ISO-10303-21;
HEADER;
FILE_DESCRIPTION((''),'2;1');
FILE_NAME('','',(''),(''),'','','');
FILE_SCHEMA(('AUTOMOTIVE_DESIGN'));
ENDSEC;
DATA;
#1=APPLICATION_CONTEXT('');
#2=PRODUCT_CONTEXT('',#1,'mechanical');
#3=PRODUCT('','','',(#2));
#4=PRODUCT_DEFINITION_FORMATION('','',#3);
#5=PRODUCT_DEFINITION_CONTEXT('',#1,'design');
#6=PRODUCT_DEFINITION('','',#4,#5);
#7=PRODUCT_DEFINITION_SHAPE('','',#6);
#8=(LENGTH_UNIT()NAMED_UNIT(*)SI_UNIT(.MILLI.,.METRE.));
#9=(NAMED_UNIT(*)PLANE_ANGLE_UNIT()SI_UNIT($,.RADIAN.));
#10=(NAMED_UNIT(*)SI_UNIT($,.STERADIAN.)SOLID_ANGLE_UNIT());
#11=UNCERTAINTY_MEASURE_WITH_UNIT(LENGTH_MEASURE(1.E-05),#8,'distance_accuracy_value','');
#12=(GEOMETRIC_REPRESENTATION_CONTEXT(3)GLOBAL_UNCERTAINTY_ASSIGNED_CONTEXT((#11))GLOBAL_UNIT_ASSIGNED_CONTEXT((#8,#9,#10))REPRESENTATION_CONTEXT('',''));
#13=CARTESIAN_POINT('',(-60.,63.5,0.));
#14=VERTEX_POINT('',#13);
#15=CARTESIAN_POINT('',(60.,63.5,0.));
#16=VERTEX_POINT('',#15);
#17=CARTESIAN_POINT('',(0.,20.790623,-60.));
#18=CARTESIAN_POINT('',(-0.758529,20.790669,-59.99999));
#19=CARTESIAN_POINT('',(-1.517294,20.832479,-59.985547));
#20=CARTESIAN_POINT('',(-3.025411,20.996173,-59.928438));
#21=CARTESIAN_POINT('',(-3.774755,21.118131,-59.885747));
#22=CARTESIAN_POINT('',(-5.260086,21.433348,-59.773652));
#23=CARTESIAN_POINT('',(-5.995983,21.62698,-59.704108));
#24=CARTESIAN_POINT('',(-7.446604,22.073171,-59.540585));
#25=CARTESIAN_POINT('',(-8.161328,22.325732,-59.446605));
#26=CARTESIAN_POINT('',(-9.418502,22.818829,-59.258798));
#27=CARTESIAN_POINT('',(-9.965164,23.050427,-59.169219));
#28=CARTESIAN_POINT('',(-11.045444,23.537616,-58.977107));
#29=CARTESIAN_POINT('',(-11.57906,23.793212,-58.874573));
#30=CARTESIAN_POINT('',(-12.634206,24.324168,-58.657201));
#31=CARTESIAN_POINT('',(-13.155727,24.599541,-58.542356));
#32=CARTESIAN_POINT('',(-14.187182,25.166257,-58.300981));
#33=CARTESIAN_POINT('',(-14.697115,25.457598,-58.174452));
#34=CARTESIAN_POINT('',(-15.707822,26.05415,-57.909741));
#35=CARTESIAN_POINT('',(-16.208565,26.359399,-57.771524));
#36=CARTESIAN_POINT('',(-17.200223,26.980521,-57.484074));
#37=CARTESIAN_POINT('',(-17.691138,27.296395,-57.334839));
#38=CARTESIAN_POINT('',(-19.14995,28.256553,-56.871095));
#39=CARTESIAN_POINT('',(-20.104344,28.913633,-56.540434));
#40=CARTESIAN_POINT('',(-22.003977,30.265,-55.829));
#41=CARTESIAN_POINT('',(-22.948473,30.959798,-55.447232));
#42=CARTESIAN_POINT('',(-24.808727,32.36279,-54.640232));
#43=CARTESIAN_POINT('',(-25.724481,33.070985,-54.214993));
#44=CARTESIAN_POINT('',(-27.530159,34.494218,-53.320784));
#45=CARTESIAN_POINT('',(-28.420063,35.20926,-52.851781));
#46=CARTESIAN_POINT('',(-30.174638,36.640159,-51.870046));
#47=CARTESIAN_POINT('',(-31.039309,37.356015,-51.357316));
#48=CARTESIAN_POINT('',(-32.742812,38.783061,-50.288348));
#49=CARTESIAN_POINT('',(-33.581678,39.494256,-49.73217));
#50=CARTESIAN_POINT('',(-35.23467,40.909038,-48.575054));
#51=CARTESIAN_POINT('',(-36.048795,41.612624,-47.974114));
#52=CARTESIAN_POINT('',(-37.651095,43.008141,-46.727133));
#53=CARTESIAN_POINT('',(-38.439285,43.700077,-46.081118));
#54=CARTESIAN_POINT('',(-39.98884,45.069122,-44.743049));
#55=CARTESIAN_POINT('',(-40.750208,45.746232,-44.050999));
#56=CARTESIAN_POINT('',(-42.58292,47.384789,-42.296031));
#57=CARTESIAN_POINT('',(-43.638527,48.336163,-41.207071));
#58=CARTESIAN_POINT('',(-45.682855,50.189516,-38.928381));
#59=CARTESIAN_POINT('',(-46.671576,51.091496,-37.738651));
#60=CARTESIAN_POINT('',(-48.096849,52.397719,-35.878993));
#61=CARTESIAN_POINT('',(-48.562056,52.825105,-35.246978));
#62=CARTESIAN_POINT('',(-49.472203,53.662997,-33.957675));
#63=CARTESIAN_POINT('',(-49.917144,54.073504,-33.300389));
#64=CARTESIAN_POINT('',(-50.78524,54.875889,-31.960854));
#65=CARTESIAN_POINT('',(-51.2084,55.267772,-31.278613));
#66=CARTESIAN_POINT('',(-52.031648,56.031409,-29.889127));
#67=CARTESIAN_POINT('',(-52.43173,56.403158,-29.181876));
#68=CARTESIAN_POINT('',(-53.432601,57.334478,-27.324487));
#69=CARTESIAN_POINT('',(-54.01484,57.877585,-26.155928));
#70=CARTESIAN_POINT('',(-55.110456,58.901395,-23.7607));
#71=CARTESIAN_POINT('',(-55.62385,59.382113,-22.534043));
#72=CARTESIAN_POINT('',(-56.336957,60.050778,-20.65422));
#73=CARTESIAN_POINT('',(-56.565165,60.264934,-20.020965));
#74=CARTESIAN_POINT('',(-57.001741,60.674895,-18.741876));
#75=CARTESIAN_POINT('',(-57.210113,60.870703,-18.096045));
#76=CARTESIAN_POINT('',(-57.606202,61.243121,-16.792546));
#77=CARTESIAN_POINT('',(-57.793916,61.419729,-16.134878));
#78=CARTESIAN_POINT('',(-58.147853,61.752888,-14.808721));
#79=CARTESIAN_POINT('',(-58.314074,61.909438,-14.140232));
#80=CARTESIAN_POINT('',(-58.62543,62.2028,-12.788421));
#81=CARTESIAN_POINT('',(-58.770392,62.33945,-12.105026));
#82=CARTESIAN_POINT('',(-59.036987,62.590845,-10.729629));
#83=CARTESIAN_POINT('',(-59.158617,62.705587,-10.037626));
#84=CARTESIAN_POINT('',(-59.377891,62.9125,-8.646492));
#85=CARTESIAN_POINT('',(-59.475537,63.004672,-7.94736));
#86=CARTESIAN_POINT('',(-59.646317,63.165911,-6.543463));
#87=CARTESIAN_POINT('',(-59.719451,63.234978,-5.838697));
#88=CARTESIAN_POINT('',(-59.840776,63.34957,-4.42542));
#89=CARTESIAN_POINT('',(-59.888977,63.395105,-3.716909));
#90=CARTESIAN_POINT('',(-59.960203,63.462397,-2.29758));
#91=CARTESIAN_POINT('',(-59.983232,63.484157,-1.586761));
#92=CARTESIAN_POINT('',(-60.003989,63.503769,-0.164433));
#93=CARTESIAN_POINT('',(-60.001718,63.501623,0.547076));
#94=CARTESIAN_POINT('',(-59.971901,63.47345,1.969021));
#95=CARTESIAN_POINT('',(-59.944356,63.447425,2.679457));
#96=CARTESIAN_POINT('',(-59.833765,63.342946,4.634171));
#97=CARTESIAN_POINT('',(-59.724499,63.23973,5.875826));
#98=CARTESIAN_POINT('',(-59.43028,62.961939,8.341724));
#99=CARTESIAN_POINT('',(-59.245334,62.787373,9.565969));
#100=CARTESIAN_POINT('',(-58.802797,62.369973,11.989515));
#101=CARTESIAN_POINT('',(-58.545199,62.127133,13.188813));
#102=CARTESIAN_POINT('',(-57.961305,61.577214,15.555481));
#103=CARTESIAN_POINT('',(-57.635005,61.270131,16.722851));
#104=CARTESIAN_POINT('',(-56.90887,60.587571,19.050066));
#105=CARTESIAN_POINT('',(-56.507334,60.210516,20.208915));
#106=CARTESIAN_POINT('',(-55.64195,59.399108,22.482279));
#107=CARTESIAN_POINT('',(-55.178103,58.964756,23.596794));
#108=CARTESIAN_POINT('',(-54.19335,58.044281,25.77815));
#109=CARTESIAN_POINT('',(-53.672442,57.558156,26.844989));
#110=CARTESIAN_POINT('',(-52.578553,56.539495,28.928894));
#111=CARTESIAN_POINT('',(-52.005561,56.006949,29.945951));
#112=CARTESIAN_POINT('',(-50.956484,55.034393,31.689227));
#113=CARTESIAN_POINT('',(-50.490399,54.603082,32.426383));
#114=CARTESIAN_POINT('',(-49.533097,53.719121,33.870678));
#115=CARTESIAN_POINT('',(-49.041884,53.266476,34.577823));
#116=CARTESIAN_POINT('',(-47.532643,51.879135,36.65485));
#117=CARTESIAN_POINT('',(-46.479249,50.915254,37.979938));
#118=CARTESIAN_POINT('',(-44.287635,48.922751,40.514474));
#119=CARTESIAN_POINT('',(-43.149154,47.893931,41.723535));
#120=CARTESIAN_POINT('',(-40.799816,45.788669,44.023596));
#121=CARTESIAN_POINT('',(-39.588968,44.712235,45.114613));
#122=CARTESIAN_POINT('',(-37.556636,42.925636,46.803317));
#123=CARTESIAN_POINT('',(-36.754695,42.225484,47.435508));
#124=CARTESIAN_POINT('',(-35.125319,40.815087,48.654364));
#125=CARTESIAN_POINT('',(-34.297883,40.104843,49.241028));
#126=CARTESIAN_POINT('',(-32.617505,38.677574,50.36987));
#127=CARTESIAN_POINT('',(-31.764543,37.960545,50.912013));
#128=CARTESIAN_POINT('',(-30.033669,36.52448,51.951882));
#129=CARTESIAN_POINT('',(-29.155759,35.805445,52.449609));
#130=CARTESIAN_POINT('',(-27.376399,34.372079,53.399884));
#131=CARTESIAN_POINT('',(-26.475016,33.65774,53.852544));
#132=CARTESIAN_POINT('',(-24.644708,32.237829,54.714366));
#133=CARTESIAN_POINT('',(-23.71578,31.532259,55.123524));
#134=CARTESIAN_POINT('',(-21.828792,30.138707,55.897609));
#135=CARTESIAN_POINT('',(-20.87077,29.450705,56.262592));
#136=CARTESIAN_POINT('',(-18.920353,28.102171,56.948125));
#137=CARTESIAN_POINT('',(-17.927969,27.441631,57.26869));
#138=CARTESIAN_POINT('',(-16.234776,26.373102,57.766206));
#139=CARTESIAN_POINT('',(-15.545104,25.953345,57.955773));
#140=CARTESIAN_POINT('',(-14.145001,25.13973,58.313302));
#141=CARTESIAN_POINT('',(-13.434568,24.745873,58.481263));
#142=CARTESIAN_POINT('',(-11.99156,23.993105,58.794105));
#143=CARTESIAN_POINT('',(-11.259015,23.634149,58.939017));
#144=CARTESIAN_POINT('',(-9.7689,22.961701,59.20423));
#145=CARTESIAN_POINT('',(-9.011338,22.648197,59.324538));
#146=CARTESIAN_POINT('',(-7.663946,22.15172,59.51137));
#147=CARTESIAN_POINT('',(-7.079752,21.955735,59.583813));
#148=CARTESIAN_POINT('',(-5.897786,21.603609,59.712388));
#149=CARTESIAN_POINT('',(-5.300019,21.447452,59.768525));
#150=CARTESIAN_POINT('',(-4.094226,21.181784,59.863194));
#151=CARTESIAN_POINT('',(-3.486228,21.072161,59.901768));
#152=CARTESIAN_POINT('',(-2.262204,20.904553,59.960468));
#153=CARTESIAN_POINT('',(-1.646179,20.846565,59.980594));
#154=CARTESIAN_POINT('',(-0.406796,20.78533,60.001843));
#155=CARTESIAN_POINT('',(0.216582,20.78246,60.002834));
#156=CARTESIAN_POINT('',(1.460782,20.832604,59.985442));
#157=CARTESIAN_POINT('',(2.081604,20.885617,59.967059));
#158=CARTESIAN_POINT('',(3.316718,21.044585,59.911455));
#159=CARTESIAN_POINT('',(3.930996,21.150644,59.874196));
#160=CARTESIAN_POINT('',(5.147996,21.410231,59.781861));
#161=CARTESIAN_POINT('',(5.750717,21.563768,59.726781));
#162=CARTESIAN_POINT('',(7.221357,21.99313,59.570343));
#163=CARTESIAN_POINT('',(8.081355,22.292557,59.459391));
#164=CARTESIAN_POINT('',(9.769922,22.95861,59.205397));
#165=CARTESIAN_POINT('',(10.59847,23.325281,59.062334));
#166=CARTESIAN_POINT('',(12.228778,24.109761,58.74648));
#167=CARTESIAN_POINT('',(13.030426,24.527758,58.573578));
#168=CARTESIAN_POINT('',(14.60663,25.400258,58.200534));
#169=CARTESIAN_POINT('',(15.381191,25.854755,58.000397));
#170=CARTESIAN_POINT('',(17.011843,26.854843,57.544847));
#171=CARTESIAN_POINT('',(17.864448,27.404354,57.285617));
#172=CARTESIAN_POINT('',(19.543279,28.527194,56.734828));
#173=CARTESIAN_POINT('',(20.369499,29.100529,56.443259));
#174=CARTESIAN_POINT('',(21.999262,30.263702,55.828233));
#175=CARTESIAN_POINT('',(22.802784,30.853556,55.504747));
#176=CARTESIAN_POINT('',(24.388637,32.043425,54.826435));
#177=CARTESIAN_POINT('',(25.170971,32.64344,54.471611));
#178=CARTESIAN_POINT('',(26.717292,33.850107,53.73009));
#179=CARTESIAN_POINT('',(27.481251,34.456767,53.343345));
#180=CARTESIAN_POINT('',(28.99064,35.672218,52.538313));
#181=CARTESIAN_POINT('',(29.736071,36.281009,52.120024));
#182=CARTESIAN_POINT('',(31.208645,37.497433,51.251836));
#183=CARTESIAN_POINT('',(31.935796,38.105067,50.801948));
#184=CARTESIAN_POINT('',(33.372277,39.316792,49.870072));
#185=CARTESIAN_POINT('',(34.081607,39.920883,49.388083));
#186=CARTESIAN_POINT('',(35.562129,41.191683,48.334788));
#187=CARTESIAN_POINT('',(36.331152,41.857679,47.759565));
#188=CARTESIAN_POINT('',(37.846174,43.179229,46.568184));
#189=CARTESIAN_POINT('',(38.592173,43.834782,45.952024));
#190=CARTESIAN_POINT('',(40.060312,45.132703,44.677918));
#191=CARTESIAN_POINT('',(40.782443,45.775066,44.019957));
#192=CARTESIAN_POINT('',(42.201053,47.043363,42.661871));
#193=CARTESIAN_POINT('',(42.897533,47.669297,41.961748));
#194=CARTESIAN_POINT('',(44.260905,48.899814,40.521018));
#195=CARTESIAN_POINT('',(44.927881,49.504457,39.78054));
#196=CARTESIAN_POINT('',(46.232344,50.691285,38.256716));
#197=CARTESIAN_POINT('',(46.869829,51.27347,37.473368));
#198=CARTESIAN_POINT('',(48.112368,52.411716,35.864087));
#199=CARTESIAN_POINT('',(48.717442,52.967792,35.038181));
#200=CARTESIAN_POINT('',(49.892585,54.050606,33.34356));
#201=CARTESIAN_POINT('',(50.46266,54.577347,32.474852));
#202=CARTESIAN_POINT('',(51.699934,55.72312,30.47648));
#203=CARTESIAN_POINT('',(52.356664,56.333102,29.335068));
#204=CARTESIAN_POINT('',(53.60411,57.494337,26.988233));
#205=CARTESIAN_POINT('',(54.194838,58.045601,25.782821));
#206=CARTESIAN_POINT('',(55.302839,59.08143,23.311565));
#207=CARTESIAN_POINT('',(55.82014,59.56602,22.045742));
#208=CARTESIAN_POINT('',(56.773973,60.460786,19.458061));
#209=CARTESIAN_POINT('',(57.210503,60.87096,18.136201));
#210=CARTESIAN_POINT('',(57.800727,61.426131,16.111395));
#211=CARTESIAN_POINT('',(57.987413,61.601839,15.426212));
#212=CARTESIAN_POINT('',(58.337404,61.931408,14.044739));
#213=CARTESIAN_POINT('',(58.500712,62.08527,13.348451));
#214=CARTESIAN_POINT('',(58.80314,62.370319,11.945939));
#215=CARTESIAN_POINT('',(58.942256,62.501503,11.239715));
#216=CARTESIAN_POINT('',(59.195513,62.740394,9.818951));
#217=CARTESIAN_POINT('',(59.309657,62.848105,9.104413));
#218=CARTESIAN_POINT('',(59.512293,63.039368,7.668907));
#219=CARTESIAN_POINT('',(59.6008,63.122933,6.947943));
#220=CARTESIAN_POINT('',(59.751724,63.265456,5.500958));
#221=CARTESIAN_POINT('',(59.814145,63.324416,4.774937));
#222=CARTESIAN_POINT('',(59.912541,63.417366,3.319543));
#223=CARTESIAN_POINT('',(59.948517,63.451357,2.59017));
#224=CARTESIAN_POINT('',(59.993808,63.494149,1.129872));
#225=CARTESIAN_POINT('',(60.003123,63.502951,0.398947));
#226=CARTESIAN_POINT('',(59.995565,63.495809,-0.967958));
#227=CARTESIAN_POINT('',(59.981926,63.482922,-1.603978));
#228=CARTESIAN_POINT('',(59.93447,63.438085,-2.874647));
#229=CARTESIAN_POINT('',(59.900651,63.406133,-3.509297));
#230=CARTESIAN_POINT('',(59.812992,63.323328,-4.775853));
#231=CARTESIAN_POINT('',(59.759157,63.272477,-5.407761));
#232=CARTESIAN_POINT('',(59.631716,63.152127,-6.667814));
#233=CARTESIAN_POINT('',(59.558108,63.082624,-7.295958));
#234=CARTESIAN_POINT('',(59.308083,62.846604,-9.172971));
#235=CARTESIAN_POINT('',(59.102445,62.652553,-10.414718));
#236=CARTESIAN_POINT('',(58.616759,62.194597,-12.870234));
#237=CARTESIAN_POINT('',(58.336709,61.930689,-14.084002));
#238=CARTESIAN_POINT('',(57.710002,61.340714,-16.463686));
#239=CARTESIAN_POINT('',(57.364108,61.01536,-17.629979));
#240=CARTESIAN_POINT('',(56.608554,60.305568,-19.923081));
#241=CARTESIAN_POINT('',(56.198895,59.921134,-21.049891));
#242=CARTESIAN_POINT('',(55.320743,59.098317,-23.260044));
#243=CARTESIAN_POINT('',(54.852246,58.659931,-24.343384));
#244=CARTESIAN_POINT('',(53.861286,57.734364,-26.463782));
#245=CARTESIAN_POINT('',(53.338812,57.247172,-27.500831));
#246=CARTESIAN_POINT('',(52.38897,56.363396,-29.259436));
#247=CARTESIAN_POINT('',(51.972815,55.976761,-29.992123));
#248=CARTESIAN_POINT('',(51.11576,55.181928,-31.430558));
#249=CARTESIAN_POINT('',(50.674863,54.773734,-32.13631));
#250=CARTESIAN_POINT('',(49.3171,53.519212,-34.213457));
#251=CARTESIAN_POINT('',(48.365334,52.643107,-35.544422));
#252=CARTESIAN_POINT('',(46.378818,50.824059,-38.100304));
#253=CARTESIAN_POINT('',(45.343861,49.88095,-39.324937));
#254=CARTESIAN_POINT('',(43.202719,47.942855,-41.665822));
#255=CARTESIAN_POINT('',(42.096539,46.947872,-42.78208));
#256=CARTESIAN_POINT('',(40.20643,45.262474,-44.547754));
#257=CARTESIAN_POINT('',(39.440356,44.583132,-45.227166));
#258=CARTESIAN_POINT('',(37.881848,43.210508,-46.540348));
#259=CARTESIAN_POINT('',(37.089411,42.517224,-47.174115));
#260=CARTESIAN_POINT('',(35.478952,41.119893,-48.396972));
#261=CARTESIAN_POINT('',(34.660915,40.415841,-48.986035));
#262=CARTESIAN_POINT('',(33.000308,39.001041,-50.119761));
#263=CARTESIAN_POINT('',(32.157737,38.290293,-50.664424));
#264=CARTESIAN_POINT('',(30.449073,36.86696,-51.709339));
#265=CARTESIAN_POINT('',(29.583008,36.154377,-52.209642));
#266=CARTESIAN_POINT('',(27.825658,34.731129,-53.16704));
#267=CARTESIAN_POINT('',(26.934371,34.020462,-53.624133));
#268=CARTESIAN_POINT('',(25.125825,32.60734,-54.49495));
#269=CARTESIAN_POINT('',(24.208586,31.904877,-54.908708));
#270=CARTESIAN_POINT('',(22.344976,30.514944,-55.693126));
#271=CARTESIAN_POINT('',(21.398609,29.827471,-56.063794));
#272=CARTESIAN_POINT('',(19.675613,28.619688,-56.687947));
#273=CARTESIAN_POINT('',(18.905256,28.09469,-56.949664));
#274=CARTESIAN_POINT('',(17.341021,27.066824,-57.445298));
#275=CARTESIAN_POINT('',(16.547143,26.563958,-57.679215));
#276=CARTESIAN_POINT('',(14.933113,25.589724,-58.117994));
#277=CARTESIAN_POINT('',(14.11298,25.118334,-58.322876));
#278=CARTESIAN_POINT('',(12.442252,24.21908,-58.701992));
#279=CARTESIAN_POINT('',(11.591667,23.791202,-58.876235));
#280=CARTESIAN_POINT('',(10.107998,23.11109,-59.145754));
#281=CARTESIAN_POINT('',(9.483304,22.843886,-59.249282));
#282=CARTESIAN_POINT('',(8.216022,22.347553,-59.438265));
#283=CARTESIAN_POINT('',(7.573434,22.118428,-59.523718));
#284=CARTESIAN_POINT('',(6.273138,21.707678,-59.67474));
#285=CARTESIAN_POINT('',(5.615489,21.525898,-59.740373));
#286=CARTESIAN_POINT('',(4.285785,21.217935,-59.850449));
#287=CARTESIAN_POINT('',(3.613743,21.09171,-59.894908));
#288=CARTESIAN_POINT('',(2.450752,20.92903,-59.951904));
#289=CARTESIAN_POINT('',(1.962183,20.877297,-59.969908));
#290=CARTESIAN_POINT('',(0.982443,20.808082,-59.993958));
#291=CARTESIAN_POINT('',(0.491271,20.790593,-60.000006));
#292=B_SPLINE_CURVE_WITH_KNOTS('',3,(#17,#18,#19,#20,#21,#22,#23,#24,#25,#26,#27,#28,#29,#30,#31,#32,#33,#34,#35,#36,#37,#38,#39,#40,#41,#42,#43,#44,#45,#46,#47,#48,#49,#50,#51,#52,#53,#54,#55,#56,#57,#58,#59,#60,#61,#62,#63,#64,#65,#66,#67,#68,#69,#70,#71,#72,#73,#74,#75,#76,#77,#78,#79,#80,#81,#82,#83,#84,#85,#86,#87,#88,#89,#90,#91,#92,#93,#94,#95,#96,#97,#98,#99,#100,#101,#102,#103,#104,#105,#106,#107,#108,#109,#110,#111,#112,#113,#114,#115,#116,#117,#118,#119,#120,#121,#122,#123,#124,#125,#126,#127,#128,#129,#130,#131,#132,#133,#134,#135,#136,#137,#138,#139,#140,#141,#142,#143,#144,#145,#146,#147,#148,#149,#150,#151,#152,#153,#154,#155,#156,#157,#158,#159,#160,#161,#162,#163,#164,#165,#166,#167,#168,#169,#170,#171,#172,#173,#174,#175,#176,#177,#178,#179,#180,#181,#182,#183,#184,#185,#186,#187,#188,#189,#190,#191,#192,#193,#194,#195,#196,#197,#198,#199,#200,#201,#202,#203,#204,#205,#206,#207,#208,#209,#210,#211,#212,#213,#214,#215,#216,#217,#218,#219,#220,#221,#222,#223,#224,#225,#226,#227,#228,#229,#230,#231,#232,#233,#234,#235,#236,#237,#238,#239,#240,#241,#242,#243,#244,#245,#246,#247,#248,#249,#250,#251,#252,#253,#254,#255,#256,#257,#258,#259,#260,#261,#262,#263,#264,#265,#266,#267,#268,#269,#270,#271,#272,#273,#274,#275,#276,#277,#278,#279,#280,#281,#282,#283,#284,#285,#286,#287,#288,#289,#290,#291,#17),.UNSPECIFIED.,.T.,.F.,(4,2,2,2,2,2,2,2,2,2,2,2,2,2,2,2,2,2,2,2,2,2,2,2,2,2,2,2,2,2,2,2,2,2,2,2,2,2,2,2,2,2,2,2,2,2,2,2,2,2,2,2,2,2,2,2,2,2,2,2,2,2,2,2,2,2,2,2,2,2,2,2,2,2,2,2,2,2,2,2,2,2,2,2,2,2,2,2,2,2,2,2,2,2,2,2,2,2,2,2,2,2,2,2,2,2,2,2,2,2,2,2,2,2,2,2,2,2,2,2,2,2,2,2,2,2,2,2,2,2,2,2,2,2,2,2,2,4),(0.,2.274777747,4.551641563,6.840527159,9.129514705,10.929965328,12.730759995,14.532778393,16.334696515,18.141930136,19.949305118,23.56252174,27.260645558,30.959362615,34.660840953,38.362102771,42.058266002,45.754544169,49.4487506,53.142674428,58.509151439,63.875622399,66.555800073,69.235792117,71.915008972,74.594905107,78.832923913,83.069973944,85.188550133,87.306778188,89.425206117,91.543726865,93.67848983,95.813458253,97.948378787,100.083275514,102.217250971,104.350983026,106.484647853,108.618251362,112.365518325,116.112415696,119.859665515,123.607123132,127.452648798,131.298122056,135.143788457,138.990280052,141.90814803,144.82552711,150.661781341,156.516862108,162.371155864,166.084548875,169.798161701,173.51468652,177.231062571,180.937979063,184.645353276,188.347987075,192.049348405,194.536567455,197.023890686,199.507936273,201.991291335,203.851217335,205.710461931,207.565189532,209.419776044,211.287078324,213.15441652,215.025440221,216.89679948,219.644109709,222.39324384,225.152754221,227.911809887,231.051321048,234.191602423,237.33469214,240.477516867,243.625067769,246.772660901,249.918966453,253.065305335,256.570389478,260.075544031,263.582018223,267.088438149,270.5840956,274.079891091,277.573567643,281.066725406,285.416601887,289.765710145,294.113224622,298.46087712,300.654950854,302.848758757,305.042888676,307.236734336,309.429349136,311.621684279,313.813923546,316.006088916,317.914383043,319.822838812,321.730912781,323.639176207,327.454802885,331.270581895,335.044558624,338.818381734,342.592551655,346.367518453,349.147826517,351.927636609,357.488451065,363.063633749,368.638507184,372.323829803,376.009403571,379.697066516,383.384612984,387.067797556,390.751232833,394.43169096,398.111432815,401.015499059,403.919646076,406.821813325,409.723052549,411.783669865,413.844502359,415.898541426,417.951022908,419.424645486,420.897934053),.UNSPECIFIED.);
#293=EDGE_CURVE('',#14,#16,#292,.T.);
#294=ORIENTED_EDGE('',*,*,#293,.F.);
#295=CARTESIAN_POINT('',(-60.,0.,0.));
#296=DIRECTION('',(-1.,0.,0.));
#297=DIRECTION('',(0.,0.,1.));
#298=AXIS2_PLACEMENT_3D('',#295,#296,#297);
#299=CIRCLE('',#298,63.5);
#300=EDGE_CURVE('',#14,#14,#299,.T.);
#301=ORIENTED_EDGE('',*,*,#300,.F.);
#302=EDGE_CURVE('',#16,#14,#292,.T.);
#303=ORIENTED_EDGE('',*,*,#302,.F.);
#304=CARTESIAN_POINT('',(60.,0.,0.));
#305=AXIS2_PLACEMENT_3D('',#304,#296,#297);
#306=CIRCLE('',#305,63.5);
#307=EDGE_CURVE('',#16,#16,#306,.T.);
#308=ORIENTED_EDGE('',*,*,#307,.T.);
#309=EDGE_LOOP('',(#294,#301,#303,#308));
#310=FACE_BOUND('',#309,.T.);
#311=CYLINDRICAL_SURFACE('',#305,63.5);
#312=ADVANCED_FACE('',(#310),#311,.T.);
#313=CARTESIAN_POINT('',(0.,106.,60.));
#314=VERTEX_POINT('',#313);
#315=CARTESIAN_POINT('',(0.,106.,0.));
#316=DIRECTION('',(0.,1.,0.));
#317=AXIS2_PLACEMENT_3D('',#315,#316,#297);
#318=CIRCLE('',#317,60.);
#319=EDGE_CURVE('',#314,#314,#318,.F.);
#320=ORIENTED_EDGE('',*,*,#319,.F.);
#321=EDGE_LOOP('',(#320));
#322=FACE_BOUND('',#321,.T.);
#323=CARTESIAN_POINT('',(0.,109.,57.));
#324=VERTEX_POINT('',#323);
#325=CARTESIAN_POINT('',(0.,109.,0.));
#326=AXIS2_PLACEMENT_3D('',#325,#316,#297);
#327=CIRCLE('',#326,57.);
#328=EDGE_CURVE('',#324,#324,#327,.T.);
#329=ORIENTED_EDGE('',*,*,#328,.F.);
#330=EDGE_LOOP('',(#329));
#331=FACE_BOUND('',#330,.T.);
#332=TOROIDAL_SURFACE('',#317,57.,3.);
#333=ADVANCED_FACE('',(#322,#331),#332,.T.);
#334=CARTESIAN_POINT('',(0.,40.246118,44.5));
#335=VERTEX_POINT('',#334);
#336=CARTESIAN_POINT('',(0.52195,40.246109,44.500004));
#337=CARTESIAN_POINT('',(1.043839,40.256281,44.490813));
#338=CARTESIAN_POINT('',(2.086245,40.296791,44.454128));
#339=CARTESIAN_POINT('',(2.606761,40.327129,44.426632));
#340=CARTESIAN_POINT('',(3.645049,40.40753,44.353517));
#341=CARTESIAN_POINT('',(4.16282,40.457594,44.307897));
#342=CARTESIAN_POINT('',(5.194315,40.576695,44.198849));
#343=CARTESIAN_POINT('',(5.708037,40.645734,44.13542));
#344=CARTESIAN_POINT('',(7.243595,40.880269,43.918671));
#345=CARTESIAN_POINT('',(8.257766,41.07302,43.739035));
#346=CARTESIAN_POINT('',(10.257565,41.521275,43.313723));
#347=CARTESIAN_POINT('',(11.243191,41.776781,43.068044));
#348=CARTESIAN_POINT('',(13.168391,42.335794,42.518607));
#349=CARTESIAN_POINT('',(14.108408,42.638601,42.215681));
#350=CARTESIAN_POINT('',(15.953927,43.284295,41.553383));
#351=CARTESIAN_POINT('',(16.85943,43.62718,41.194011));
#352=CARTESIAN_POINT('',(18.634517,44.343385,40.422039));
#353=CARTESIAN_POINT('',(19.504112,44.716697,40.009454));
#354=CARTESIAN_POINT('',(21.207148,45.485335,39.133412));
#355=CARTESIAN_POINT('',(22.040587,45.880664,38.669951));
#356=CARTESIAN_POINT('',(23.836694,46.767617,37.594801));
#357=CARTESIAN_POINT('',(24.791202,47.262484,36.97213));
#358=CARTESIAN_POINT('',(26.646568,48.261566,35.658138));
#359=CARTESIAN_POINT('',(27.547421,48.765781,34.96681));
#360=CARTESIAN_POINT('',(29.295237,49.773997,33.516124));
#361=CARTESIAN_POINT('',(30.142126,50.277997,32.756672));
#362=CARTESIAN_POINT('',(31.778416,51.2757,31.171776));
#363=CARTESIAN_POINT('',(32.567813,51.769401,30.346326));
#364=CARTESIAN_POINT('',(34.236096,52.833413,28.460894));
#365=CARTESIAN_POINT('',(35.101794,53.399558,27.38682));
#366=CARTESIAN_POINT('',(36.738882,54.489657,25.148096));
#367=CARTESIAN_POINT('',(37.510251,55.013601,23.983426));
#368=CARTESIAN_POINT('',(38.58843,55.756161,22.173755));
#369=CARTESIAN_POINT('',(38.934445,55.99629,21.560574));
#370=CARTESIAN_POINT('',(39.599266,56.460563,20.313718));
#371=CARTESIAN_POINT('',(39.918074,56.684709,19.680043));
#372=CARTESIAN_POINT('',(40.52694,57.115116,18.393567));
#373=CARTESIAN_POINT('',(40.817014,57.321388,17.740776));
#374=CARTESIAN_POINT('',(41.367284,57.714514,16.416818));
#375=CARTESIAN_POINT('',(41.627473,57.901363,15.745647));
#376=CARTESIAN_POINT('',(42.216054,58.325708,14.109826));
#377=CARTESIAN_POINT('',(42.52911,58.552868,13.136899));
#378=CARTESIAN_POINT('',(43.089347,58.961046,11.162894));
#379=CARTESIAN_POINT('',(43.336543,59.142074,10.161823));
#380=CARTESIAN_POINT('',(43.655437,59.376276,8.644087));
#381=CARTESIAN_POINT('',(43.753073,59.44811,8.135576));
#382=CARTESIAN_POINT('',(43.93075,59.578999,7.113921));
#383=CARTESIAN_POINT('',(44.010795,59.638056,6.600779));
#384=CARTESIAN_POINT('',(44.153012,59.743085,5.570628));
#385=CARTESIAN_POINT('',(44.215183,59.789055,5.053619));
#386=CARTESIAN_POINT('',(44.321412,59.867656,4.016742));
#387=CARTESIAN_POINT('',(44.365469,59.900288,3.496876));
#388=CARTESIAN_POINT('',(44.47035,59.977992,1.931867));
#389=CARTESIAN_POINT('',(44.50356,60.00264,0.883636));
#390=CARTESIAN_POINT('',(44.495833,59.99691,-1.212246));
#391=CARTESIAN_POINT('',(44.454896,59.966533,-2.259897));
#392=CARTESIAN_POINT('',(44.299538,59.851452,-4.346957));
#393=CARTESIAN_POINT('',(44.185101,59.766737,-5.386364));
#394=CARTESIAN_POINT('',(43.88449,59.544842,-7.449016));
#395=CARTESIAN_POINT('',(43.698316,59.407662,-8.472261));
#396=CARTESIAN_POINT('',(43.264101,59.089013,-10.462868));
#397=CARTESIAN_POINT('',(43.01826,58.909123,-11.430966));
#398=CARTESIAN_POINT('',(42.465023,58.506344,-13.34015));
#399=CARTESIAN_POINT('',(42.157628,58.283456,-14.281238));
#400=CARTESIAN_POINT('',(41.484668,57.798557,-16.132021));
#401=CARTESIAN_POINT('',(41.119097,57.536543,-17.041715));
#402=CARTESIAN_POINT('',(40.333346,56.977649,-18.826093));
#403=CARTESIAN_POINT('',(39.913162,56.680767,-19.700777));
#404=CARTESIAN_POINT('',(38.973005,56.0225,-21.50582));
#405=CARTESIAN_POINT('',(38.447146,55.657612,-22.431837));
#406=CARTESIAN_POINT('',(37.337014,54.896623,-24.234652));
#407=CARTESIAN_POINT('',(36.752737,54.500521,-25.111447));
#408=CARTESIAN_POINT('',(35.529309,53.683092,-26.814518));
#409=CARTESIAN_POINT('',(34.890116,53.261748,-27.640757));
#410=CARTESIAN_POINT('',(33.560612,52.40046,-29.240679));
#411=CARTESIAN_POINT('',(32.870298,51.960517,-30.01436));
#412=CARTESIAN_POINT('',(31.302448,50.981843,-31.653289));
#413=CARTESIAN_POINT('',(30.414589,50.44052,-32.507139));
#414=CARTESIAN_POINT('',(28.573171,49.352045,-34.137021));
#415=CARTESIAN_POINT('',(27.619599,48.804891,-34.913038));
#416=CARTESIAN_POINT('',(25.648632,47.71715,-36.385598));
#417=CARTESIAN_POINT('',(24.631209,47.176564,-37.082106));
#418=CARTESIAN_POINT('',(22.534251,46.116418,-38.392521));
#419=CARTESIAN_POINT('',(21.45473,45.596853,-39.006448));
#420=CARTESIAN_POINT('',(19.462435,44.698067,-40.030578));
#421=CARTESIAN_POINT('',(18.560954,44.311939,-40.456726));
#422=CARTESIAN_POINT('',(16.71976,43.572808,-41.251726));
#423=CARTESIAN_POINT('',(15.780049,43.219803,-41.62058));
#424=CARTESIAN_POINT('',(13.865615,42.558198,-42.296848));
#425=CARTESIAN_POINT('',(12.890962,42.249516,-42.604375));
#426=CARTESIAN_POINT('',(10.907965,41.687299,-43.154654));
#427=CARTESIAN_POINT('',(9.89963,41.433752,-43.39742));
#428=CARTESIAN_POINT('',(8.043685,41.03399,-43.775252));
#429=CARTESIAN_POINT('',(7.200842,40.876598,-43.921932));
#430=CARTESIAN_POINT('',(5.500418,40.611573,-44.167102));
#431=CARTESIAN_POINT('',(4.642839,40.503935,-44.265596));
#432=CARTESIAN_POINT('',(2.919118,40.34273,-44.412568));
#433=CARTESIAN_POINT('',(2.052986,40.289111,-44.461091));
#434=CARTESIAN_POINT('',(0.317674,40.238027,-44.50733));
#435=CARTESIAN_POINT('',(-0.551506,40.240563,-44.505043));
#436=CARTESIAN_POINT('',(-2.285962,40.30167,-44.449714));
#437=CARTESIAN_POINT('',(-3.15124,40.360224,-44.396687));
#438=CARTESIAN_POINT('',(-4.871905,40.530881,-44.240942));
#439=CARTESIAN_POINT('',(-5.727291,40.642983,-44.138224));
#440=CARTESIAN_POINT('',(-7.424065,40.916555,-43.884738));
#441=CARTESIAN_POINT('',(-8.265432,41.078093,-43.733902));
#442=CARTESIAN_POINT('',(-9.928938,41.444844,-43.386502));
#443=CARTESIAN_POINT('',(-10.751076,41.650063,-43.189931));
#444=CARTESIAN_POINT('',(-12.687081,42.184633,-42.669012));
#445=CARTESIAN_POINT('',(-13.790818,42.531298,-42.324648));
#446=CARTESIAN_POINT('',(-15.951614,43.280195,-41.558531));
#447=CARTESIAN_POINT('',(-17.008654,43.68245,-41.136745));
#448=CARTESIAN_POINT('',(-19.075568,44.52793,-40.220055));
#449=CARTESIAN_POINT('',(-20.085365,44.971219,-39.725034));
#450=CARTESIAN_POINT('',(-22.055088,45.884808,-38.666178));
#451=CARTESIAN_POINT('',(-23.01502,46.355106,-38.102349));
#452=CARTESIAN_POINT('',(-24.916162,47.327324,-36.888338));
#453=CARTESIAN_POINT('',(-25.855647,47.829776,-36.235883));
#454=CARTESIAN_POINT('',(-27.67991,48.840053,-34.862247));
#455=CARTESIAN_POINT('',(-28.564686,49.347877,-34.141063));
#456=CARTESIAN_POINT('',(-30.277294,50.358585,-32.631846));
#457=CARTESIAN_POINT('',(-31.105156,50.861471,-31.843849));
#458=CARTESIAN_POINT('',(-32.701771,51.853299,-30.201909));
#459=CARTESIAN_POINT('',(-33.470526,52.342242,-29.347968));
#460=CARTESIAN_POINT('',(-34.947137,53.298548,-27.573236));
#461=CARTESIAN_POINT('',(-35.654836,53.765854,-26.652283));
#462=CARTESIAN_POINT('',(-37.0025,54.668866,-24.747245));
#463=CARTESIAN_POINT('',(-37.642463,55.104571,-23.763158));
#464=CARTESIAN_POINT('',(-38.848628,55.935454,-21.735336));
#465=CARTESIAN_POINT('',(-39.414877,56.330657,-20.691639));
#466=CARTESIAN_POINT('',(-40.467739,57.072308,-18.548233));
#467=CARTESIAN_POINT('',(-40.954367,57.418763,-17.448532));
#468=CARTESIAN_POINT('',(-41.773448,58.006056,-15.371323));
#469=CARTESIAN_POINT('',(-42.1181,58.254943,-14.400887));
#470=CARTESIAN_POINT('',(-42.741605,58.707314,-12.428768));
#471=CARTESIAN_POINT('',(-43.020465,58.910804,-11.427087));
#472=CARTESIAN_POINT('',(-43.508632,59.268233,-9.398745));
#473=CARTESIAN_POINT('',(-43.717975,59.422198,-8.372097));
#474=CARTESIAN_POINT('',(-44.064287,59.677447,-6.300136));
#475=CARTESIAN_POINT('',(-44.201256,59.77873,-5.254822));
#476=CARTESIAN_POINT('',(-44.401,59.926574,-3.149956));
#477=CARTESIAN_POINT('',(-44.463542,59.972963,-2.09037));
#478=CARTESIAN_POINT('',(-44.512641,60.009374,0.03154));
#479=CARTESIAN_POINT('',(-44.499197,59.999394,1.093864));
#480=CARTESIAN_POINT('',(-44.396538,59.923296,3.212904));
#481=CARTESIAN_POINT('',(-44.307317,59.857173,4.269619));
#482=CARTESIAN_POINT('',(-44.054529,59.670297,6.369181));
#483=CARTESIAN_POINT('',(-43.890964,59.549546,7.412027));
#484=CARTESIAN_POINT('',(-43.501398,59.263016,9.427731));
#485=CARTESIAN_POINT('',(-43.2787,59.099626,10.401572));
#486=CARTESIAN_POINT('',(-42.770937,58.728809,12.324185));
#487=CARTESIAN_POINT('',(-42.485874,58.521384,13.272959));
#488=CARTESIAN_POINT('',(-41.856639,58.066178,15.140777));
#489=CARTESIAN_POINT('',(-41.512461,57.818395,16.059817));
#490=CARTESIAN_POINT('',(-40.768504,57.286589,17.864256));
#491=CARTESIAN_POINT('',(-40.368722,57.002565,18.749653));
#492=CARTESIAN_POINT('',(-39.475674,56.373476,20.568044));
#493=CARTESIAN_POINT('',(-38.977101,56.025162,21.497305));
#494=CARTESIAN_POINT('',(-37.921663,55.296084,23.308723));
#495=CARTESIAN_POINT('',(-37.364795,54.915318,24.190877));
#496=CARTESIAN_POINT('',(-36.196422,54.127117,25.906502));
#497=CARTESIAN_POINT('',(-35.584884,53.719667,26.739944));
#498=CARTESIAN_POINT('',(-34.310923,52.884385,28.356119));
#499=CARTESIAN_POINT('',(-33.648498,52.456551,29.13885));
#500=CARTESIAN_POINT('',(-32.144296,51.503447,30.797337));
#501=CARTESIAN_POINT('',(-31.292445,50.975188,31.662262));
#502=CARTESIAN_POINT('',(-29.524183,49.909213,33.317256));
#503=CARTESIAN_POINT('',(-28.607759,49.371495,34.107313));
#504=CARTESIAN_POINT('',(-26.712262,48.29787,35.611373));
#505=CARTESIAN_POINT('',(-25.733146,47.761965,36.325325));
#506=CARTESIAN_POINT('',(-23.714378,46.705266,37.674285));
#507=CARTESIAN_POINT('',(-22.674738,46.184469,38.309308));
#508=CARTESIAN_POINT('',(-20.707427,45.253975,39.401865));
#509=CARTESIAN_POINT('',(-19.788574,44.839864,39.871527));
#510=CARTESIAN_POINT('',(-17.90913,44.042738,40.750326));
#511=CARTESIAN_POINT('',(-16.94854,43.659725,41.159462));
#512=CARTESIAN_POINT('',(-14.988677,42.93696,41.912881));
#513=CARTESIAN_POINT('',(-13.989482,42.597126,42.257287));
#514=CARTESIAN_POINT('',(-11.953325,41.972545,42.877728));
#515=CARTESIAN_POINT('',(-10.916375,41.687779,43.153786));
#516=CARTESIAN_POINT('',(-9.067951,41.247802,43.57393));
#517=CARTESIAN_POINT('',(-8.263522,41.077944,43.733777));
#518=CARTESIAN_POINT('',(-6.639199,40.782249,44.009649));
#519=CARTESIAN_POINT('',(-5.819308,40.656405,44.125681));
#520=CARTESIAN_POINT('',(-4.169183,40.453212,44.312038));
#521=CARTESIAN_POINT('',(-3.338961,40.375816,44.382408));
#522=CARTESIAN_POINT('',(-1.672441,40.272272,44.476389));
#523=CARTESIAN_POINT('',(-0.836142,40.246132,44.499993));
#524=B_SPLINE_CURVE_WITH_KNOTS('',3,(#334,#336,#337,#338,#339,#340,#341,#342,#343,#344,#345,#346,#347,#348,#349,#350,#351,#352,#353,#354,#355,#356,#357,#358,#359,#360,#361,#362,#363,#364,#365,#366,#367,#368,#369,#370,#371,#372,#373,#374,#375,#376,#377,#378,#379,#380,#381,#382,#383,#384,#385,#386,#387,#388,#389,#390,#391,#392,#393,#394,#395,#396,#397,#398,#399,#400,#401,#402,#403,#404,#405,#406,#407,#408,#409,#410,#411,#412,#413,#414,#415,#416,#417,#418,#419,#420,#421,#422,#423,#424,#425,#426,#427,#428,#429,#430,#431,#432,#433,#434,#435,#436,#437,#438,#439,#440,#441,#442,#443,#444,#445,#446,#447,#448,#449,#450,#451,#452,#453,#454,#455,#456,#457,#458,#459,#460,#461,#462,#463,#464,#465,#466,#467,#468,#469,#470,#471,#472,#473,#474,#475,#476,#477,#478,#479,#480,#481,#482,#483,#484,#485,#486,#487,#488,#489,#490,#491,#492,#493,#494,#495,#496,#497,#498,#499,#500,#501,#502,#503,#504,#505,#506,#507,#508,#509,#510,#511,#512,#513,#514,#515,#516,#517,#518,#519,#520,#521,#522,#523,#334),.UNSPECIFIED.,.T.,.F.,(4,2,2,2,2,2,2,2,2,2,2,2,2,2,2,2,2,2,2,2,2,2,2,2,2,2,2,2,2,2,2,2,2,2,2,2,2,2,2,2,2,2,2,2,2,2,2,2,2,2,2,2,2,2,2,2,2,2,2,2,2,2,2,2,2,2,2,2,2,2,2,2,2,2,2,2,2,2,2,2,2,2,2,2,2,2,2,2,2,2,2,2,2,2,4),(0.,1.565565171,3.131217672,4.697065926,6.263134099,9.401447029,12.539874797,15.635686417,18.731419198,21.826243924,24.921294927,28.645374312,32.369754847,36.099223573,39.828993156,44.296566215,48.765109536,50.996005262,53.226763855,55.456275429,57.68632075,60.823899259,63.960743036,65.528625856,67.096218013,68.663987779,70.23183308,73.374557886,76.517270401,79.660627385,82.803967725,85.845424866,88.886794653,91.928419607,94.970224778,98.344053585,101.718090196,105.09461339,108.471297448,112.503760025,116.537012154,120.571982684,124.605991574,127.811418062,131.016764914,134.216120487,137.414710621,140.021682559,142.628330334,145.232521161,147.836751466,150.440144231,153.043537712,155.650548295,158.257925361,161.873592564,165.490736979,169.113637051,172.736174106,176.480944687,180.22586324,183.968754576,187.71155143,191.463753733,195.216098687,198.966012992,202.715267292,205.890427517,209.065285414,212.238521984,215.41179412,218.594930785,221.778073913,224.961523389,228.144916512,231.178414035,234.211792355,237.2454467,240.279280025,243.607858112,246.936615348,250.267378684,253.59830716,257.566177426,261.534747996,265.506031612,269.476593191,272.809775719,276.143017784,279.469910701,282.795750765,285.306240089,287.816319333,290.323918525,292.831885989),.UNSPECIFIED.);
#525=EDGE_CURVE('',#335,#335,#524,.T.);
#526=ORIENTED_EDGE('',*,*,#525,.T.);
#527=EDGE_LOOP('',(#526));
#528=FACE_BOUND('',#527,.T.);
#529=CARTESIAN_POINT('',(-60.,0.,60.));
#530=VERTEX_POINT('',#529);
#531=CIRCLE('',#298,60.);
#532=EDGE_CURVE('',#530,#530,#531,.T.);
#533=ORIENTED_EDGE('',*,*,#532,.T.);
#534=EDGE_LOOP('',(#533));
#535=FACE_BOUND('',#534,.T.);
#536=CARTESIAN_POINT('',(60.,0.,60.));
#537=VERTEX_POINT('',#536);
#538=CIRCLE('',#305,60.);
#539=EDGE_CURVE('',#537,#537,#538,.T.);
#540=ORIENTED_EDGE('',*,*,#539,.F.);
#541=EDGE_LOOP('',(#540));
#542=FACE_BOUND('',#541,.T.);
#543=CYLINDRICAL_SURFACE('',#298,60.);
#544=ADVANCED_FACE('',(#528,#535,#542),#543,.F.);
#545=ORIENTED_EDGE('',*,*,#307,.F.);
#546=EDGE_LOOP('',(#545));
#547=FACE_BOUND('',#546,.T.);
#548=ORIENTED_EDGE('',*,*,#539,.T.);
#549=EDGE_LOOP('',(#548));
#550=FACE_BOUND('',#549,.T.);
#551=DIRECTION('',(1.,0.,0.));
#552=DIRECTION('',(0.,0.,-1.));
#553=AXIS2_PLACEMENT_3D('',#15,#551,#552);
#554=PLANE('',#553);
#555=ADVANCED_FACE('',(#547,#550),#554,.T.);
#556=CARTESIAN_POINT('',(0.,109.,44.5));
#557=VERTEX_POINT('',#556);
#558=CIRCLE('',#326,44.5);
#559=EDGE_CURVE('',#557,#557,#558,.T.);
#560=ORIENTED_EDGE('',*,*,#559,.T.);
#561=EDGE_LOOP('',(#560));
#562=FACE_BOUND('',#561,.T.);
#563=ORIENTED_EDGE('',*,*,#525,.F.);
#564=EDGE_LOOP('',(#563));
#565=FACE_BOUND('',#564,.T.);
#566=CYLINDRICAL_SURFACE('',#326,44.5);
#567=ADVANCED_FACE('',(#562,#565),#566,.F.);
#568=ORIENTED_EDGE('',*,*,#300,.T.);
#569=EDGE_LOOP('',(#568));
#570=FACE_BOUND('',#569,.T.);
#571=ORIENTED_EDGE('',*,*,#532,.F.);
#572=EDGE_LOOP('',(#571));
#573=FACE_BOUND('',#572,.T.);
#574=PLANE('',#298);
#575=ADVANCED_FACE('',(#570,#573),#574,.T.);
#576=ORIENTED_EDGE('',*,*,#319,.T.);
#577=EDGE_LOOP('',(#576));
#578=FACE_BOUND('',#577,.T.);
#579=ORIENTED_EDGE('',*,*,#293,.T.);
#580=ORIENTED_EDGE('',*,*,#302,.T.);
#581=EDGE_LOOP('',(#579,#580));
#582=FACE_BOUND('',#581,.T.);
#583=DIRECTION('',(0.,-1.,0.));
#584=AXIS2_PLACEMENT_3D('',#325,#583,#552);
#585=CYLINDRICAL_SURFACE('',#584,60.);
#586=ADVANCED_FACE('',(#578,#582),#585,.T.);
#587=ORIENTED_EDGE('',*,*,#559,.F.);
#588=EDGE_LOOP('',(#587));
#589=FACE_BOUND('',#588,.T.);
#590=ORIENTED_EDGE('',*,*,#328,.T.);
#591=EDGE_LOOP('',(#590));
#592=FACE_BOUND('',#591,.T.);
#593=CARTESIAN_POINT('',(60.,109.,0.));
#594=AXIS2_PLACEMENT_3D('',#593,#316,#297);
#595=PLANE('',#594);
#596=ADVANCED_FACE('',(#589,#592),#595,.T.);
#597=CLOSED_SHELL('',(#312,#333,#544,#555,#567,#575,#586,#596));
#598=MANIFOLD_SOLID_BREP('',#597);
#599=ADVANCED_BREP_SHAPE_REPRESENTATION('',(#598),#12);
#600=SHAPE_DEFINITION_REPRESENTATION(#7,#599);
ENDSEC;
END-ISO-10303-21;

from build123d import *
from build123d.topology import SkipClean

# Parameters (mm, degrees)
SKETCH1_W                  = 120
SKETCH1_H                  = 63.5
SKETCH2_W                  = 60
SKETCH2_H                  = 88.209377114
HOLE1_D                    = 120
M80_CLEARANCE_HOLE1_REACH  = 195.361
M80_CLEARANCE_HOLE1_BORE_R = 44.5
FILLET1_R                  = 3


with BuildPart() as part:
    # Sketch1 → Revolve1 (revolve)
    with BuildSketch(Plane(origin=(0, 0, 0), x_dir=(-1, 0, 0), z_dir=(0, 0, -1)), mode=Mode.PRIVATE) as revolve1_sk:
        with Locations((0, 31.75)):
            Rectangle(SKETCH1_W, SKETCH1_H)
    revolve(revolve1_sk.sketch.rotate(Axis((60, 0, 0), (-1, 0, 0)), 270), axis=Axis((60, 0, 0), (-1, 0, 0)))

    # Sketch2 → Revolve2 (revolve)
    with SkipClean():  # the faces are left unmerged after this step: merging them gives an invalid solid
        with BuildSketch(Plane.XY, mode=Mode.PRIVATE) as revolve2_sk:
            with Locations((30, 64.895311443)):
                Rectangle(SKETCH2_W, SKETCH2_H)
        revolve(revolve2_sk.sketch.rotate(Axis((0, 109, 0), (0, -1, 0)), 270), axis=Axis((0, 109, 0), (0, -1, 0)))

    # Hole1 (through all)
    with Locations(Plane.ZY.offset(60)):
        with Locations((0, 0)):
            Hole(HOLE1_D / 2)

    # M80 Clearance Hole1 bore → M80 Clearance Hole1 (cut, up to next)
    with BuildSketch(Plane(origin=(0, 109, 0), x_dir=(1, 0, 0), z_dir=(0, 1, 0)), mode=Mode.PRIVATE) as m80_clearance_hole1_sk1:
        Circle(M80_CLEARANCE_HOLE1_BORE_R)
    m80_clearance_hole1_tool1 = extrude(m80_clearance_hole1_sk1.sketch, amount=-M80_CLEARANCE_HOLE1_REACH, mode=Mode.PRIVATE) & part.part
    add(m80_clearance_hole1_tool1.solids().sort_by_distance((0, 109, 0))[0], mode=Mode.SUBTRACT)

    # Fillet1
    fillet1_edges = [part.edges().sort_by_distance(p)[0] for p in [
        (0, 109, 60),
    ]]
    fillet(fillet1_edges, radius=FILLET1_R)


solid = part.part
